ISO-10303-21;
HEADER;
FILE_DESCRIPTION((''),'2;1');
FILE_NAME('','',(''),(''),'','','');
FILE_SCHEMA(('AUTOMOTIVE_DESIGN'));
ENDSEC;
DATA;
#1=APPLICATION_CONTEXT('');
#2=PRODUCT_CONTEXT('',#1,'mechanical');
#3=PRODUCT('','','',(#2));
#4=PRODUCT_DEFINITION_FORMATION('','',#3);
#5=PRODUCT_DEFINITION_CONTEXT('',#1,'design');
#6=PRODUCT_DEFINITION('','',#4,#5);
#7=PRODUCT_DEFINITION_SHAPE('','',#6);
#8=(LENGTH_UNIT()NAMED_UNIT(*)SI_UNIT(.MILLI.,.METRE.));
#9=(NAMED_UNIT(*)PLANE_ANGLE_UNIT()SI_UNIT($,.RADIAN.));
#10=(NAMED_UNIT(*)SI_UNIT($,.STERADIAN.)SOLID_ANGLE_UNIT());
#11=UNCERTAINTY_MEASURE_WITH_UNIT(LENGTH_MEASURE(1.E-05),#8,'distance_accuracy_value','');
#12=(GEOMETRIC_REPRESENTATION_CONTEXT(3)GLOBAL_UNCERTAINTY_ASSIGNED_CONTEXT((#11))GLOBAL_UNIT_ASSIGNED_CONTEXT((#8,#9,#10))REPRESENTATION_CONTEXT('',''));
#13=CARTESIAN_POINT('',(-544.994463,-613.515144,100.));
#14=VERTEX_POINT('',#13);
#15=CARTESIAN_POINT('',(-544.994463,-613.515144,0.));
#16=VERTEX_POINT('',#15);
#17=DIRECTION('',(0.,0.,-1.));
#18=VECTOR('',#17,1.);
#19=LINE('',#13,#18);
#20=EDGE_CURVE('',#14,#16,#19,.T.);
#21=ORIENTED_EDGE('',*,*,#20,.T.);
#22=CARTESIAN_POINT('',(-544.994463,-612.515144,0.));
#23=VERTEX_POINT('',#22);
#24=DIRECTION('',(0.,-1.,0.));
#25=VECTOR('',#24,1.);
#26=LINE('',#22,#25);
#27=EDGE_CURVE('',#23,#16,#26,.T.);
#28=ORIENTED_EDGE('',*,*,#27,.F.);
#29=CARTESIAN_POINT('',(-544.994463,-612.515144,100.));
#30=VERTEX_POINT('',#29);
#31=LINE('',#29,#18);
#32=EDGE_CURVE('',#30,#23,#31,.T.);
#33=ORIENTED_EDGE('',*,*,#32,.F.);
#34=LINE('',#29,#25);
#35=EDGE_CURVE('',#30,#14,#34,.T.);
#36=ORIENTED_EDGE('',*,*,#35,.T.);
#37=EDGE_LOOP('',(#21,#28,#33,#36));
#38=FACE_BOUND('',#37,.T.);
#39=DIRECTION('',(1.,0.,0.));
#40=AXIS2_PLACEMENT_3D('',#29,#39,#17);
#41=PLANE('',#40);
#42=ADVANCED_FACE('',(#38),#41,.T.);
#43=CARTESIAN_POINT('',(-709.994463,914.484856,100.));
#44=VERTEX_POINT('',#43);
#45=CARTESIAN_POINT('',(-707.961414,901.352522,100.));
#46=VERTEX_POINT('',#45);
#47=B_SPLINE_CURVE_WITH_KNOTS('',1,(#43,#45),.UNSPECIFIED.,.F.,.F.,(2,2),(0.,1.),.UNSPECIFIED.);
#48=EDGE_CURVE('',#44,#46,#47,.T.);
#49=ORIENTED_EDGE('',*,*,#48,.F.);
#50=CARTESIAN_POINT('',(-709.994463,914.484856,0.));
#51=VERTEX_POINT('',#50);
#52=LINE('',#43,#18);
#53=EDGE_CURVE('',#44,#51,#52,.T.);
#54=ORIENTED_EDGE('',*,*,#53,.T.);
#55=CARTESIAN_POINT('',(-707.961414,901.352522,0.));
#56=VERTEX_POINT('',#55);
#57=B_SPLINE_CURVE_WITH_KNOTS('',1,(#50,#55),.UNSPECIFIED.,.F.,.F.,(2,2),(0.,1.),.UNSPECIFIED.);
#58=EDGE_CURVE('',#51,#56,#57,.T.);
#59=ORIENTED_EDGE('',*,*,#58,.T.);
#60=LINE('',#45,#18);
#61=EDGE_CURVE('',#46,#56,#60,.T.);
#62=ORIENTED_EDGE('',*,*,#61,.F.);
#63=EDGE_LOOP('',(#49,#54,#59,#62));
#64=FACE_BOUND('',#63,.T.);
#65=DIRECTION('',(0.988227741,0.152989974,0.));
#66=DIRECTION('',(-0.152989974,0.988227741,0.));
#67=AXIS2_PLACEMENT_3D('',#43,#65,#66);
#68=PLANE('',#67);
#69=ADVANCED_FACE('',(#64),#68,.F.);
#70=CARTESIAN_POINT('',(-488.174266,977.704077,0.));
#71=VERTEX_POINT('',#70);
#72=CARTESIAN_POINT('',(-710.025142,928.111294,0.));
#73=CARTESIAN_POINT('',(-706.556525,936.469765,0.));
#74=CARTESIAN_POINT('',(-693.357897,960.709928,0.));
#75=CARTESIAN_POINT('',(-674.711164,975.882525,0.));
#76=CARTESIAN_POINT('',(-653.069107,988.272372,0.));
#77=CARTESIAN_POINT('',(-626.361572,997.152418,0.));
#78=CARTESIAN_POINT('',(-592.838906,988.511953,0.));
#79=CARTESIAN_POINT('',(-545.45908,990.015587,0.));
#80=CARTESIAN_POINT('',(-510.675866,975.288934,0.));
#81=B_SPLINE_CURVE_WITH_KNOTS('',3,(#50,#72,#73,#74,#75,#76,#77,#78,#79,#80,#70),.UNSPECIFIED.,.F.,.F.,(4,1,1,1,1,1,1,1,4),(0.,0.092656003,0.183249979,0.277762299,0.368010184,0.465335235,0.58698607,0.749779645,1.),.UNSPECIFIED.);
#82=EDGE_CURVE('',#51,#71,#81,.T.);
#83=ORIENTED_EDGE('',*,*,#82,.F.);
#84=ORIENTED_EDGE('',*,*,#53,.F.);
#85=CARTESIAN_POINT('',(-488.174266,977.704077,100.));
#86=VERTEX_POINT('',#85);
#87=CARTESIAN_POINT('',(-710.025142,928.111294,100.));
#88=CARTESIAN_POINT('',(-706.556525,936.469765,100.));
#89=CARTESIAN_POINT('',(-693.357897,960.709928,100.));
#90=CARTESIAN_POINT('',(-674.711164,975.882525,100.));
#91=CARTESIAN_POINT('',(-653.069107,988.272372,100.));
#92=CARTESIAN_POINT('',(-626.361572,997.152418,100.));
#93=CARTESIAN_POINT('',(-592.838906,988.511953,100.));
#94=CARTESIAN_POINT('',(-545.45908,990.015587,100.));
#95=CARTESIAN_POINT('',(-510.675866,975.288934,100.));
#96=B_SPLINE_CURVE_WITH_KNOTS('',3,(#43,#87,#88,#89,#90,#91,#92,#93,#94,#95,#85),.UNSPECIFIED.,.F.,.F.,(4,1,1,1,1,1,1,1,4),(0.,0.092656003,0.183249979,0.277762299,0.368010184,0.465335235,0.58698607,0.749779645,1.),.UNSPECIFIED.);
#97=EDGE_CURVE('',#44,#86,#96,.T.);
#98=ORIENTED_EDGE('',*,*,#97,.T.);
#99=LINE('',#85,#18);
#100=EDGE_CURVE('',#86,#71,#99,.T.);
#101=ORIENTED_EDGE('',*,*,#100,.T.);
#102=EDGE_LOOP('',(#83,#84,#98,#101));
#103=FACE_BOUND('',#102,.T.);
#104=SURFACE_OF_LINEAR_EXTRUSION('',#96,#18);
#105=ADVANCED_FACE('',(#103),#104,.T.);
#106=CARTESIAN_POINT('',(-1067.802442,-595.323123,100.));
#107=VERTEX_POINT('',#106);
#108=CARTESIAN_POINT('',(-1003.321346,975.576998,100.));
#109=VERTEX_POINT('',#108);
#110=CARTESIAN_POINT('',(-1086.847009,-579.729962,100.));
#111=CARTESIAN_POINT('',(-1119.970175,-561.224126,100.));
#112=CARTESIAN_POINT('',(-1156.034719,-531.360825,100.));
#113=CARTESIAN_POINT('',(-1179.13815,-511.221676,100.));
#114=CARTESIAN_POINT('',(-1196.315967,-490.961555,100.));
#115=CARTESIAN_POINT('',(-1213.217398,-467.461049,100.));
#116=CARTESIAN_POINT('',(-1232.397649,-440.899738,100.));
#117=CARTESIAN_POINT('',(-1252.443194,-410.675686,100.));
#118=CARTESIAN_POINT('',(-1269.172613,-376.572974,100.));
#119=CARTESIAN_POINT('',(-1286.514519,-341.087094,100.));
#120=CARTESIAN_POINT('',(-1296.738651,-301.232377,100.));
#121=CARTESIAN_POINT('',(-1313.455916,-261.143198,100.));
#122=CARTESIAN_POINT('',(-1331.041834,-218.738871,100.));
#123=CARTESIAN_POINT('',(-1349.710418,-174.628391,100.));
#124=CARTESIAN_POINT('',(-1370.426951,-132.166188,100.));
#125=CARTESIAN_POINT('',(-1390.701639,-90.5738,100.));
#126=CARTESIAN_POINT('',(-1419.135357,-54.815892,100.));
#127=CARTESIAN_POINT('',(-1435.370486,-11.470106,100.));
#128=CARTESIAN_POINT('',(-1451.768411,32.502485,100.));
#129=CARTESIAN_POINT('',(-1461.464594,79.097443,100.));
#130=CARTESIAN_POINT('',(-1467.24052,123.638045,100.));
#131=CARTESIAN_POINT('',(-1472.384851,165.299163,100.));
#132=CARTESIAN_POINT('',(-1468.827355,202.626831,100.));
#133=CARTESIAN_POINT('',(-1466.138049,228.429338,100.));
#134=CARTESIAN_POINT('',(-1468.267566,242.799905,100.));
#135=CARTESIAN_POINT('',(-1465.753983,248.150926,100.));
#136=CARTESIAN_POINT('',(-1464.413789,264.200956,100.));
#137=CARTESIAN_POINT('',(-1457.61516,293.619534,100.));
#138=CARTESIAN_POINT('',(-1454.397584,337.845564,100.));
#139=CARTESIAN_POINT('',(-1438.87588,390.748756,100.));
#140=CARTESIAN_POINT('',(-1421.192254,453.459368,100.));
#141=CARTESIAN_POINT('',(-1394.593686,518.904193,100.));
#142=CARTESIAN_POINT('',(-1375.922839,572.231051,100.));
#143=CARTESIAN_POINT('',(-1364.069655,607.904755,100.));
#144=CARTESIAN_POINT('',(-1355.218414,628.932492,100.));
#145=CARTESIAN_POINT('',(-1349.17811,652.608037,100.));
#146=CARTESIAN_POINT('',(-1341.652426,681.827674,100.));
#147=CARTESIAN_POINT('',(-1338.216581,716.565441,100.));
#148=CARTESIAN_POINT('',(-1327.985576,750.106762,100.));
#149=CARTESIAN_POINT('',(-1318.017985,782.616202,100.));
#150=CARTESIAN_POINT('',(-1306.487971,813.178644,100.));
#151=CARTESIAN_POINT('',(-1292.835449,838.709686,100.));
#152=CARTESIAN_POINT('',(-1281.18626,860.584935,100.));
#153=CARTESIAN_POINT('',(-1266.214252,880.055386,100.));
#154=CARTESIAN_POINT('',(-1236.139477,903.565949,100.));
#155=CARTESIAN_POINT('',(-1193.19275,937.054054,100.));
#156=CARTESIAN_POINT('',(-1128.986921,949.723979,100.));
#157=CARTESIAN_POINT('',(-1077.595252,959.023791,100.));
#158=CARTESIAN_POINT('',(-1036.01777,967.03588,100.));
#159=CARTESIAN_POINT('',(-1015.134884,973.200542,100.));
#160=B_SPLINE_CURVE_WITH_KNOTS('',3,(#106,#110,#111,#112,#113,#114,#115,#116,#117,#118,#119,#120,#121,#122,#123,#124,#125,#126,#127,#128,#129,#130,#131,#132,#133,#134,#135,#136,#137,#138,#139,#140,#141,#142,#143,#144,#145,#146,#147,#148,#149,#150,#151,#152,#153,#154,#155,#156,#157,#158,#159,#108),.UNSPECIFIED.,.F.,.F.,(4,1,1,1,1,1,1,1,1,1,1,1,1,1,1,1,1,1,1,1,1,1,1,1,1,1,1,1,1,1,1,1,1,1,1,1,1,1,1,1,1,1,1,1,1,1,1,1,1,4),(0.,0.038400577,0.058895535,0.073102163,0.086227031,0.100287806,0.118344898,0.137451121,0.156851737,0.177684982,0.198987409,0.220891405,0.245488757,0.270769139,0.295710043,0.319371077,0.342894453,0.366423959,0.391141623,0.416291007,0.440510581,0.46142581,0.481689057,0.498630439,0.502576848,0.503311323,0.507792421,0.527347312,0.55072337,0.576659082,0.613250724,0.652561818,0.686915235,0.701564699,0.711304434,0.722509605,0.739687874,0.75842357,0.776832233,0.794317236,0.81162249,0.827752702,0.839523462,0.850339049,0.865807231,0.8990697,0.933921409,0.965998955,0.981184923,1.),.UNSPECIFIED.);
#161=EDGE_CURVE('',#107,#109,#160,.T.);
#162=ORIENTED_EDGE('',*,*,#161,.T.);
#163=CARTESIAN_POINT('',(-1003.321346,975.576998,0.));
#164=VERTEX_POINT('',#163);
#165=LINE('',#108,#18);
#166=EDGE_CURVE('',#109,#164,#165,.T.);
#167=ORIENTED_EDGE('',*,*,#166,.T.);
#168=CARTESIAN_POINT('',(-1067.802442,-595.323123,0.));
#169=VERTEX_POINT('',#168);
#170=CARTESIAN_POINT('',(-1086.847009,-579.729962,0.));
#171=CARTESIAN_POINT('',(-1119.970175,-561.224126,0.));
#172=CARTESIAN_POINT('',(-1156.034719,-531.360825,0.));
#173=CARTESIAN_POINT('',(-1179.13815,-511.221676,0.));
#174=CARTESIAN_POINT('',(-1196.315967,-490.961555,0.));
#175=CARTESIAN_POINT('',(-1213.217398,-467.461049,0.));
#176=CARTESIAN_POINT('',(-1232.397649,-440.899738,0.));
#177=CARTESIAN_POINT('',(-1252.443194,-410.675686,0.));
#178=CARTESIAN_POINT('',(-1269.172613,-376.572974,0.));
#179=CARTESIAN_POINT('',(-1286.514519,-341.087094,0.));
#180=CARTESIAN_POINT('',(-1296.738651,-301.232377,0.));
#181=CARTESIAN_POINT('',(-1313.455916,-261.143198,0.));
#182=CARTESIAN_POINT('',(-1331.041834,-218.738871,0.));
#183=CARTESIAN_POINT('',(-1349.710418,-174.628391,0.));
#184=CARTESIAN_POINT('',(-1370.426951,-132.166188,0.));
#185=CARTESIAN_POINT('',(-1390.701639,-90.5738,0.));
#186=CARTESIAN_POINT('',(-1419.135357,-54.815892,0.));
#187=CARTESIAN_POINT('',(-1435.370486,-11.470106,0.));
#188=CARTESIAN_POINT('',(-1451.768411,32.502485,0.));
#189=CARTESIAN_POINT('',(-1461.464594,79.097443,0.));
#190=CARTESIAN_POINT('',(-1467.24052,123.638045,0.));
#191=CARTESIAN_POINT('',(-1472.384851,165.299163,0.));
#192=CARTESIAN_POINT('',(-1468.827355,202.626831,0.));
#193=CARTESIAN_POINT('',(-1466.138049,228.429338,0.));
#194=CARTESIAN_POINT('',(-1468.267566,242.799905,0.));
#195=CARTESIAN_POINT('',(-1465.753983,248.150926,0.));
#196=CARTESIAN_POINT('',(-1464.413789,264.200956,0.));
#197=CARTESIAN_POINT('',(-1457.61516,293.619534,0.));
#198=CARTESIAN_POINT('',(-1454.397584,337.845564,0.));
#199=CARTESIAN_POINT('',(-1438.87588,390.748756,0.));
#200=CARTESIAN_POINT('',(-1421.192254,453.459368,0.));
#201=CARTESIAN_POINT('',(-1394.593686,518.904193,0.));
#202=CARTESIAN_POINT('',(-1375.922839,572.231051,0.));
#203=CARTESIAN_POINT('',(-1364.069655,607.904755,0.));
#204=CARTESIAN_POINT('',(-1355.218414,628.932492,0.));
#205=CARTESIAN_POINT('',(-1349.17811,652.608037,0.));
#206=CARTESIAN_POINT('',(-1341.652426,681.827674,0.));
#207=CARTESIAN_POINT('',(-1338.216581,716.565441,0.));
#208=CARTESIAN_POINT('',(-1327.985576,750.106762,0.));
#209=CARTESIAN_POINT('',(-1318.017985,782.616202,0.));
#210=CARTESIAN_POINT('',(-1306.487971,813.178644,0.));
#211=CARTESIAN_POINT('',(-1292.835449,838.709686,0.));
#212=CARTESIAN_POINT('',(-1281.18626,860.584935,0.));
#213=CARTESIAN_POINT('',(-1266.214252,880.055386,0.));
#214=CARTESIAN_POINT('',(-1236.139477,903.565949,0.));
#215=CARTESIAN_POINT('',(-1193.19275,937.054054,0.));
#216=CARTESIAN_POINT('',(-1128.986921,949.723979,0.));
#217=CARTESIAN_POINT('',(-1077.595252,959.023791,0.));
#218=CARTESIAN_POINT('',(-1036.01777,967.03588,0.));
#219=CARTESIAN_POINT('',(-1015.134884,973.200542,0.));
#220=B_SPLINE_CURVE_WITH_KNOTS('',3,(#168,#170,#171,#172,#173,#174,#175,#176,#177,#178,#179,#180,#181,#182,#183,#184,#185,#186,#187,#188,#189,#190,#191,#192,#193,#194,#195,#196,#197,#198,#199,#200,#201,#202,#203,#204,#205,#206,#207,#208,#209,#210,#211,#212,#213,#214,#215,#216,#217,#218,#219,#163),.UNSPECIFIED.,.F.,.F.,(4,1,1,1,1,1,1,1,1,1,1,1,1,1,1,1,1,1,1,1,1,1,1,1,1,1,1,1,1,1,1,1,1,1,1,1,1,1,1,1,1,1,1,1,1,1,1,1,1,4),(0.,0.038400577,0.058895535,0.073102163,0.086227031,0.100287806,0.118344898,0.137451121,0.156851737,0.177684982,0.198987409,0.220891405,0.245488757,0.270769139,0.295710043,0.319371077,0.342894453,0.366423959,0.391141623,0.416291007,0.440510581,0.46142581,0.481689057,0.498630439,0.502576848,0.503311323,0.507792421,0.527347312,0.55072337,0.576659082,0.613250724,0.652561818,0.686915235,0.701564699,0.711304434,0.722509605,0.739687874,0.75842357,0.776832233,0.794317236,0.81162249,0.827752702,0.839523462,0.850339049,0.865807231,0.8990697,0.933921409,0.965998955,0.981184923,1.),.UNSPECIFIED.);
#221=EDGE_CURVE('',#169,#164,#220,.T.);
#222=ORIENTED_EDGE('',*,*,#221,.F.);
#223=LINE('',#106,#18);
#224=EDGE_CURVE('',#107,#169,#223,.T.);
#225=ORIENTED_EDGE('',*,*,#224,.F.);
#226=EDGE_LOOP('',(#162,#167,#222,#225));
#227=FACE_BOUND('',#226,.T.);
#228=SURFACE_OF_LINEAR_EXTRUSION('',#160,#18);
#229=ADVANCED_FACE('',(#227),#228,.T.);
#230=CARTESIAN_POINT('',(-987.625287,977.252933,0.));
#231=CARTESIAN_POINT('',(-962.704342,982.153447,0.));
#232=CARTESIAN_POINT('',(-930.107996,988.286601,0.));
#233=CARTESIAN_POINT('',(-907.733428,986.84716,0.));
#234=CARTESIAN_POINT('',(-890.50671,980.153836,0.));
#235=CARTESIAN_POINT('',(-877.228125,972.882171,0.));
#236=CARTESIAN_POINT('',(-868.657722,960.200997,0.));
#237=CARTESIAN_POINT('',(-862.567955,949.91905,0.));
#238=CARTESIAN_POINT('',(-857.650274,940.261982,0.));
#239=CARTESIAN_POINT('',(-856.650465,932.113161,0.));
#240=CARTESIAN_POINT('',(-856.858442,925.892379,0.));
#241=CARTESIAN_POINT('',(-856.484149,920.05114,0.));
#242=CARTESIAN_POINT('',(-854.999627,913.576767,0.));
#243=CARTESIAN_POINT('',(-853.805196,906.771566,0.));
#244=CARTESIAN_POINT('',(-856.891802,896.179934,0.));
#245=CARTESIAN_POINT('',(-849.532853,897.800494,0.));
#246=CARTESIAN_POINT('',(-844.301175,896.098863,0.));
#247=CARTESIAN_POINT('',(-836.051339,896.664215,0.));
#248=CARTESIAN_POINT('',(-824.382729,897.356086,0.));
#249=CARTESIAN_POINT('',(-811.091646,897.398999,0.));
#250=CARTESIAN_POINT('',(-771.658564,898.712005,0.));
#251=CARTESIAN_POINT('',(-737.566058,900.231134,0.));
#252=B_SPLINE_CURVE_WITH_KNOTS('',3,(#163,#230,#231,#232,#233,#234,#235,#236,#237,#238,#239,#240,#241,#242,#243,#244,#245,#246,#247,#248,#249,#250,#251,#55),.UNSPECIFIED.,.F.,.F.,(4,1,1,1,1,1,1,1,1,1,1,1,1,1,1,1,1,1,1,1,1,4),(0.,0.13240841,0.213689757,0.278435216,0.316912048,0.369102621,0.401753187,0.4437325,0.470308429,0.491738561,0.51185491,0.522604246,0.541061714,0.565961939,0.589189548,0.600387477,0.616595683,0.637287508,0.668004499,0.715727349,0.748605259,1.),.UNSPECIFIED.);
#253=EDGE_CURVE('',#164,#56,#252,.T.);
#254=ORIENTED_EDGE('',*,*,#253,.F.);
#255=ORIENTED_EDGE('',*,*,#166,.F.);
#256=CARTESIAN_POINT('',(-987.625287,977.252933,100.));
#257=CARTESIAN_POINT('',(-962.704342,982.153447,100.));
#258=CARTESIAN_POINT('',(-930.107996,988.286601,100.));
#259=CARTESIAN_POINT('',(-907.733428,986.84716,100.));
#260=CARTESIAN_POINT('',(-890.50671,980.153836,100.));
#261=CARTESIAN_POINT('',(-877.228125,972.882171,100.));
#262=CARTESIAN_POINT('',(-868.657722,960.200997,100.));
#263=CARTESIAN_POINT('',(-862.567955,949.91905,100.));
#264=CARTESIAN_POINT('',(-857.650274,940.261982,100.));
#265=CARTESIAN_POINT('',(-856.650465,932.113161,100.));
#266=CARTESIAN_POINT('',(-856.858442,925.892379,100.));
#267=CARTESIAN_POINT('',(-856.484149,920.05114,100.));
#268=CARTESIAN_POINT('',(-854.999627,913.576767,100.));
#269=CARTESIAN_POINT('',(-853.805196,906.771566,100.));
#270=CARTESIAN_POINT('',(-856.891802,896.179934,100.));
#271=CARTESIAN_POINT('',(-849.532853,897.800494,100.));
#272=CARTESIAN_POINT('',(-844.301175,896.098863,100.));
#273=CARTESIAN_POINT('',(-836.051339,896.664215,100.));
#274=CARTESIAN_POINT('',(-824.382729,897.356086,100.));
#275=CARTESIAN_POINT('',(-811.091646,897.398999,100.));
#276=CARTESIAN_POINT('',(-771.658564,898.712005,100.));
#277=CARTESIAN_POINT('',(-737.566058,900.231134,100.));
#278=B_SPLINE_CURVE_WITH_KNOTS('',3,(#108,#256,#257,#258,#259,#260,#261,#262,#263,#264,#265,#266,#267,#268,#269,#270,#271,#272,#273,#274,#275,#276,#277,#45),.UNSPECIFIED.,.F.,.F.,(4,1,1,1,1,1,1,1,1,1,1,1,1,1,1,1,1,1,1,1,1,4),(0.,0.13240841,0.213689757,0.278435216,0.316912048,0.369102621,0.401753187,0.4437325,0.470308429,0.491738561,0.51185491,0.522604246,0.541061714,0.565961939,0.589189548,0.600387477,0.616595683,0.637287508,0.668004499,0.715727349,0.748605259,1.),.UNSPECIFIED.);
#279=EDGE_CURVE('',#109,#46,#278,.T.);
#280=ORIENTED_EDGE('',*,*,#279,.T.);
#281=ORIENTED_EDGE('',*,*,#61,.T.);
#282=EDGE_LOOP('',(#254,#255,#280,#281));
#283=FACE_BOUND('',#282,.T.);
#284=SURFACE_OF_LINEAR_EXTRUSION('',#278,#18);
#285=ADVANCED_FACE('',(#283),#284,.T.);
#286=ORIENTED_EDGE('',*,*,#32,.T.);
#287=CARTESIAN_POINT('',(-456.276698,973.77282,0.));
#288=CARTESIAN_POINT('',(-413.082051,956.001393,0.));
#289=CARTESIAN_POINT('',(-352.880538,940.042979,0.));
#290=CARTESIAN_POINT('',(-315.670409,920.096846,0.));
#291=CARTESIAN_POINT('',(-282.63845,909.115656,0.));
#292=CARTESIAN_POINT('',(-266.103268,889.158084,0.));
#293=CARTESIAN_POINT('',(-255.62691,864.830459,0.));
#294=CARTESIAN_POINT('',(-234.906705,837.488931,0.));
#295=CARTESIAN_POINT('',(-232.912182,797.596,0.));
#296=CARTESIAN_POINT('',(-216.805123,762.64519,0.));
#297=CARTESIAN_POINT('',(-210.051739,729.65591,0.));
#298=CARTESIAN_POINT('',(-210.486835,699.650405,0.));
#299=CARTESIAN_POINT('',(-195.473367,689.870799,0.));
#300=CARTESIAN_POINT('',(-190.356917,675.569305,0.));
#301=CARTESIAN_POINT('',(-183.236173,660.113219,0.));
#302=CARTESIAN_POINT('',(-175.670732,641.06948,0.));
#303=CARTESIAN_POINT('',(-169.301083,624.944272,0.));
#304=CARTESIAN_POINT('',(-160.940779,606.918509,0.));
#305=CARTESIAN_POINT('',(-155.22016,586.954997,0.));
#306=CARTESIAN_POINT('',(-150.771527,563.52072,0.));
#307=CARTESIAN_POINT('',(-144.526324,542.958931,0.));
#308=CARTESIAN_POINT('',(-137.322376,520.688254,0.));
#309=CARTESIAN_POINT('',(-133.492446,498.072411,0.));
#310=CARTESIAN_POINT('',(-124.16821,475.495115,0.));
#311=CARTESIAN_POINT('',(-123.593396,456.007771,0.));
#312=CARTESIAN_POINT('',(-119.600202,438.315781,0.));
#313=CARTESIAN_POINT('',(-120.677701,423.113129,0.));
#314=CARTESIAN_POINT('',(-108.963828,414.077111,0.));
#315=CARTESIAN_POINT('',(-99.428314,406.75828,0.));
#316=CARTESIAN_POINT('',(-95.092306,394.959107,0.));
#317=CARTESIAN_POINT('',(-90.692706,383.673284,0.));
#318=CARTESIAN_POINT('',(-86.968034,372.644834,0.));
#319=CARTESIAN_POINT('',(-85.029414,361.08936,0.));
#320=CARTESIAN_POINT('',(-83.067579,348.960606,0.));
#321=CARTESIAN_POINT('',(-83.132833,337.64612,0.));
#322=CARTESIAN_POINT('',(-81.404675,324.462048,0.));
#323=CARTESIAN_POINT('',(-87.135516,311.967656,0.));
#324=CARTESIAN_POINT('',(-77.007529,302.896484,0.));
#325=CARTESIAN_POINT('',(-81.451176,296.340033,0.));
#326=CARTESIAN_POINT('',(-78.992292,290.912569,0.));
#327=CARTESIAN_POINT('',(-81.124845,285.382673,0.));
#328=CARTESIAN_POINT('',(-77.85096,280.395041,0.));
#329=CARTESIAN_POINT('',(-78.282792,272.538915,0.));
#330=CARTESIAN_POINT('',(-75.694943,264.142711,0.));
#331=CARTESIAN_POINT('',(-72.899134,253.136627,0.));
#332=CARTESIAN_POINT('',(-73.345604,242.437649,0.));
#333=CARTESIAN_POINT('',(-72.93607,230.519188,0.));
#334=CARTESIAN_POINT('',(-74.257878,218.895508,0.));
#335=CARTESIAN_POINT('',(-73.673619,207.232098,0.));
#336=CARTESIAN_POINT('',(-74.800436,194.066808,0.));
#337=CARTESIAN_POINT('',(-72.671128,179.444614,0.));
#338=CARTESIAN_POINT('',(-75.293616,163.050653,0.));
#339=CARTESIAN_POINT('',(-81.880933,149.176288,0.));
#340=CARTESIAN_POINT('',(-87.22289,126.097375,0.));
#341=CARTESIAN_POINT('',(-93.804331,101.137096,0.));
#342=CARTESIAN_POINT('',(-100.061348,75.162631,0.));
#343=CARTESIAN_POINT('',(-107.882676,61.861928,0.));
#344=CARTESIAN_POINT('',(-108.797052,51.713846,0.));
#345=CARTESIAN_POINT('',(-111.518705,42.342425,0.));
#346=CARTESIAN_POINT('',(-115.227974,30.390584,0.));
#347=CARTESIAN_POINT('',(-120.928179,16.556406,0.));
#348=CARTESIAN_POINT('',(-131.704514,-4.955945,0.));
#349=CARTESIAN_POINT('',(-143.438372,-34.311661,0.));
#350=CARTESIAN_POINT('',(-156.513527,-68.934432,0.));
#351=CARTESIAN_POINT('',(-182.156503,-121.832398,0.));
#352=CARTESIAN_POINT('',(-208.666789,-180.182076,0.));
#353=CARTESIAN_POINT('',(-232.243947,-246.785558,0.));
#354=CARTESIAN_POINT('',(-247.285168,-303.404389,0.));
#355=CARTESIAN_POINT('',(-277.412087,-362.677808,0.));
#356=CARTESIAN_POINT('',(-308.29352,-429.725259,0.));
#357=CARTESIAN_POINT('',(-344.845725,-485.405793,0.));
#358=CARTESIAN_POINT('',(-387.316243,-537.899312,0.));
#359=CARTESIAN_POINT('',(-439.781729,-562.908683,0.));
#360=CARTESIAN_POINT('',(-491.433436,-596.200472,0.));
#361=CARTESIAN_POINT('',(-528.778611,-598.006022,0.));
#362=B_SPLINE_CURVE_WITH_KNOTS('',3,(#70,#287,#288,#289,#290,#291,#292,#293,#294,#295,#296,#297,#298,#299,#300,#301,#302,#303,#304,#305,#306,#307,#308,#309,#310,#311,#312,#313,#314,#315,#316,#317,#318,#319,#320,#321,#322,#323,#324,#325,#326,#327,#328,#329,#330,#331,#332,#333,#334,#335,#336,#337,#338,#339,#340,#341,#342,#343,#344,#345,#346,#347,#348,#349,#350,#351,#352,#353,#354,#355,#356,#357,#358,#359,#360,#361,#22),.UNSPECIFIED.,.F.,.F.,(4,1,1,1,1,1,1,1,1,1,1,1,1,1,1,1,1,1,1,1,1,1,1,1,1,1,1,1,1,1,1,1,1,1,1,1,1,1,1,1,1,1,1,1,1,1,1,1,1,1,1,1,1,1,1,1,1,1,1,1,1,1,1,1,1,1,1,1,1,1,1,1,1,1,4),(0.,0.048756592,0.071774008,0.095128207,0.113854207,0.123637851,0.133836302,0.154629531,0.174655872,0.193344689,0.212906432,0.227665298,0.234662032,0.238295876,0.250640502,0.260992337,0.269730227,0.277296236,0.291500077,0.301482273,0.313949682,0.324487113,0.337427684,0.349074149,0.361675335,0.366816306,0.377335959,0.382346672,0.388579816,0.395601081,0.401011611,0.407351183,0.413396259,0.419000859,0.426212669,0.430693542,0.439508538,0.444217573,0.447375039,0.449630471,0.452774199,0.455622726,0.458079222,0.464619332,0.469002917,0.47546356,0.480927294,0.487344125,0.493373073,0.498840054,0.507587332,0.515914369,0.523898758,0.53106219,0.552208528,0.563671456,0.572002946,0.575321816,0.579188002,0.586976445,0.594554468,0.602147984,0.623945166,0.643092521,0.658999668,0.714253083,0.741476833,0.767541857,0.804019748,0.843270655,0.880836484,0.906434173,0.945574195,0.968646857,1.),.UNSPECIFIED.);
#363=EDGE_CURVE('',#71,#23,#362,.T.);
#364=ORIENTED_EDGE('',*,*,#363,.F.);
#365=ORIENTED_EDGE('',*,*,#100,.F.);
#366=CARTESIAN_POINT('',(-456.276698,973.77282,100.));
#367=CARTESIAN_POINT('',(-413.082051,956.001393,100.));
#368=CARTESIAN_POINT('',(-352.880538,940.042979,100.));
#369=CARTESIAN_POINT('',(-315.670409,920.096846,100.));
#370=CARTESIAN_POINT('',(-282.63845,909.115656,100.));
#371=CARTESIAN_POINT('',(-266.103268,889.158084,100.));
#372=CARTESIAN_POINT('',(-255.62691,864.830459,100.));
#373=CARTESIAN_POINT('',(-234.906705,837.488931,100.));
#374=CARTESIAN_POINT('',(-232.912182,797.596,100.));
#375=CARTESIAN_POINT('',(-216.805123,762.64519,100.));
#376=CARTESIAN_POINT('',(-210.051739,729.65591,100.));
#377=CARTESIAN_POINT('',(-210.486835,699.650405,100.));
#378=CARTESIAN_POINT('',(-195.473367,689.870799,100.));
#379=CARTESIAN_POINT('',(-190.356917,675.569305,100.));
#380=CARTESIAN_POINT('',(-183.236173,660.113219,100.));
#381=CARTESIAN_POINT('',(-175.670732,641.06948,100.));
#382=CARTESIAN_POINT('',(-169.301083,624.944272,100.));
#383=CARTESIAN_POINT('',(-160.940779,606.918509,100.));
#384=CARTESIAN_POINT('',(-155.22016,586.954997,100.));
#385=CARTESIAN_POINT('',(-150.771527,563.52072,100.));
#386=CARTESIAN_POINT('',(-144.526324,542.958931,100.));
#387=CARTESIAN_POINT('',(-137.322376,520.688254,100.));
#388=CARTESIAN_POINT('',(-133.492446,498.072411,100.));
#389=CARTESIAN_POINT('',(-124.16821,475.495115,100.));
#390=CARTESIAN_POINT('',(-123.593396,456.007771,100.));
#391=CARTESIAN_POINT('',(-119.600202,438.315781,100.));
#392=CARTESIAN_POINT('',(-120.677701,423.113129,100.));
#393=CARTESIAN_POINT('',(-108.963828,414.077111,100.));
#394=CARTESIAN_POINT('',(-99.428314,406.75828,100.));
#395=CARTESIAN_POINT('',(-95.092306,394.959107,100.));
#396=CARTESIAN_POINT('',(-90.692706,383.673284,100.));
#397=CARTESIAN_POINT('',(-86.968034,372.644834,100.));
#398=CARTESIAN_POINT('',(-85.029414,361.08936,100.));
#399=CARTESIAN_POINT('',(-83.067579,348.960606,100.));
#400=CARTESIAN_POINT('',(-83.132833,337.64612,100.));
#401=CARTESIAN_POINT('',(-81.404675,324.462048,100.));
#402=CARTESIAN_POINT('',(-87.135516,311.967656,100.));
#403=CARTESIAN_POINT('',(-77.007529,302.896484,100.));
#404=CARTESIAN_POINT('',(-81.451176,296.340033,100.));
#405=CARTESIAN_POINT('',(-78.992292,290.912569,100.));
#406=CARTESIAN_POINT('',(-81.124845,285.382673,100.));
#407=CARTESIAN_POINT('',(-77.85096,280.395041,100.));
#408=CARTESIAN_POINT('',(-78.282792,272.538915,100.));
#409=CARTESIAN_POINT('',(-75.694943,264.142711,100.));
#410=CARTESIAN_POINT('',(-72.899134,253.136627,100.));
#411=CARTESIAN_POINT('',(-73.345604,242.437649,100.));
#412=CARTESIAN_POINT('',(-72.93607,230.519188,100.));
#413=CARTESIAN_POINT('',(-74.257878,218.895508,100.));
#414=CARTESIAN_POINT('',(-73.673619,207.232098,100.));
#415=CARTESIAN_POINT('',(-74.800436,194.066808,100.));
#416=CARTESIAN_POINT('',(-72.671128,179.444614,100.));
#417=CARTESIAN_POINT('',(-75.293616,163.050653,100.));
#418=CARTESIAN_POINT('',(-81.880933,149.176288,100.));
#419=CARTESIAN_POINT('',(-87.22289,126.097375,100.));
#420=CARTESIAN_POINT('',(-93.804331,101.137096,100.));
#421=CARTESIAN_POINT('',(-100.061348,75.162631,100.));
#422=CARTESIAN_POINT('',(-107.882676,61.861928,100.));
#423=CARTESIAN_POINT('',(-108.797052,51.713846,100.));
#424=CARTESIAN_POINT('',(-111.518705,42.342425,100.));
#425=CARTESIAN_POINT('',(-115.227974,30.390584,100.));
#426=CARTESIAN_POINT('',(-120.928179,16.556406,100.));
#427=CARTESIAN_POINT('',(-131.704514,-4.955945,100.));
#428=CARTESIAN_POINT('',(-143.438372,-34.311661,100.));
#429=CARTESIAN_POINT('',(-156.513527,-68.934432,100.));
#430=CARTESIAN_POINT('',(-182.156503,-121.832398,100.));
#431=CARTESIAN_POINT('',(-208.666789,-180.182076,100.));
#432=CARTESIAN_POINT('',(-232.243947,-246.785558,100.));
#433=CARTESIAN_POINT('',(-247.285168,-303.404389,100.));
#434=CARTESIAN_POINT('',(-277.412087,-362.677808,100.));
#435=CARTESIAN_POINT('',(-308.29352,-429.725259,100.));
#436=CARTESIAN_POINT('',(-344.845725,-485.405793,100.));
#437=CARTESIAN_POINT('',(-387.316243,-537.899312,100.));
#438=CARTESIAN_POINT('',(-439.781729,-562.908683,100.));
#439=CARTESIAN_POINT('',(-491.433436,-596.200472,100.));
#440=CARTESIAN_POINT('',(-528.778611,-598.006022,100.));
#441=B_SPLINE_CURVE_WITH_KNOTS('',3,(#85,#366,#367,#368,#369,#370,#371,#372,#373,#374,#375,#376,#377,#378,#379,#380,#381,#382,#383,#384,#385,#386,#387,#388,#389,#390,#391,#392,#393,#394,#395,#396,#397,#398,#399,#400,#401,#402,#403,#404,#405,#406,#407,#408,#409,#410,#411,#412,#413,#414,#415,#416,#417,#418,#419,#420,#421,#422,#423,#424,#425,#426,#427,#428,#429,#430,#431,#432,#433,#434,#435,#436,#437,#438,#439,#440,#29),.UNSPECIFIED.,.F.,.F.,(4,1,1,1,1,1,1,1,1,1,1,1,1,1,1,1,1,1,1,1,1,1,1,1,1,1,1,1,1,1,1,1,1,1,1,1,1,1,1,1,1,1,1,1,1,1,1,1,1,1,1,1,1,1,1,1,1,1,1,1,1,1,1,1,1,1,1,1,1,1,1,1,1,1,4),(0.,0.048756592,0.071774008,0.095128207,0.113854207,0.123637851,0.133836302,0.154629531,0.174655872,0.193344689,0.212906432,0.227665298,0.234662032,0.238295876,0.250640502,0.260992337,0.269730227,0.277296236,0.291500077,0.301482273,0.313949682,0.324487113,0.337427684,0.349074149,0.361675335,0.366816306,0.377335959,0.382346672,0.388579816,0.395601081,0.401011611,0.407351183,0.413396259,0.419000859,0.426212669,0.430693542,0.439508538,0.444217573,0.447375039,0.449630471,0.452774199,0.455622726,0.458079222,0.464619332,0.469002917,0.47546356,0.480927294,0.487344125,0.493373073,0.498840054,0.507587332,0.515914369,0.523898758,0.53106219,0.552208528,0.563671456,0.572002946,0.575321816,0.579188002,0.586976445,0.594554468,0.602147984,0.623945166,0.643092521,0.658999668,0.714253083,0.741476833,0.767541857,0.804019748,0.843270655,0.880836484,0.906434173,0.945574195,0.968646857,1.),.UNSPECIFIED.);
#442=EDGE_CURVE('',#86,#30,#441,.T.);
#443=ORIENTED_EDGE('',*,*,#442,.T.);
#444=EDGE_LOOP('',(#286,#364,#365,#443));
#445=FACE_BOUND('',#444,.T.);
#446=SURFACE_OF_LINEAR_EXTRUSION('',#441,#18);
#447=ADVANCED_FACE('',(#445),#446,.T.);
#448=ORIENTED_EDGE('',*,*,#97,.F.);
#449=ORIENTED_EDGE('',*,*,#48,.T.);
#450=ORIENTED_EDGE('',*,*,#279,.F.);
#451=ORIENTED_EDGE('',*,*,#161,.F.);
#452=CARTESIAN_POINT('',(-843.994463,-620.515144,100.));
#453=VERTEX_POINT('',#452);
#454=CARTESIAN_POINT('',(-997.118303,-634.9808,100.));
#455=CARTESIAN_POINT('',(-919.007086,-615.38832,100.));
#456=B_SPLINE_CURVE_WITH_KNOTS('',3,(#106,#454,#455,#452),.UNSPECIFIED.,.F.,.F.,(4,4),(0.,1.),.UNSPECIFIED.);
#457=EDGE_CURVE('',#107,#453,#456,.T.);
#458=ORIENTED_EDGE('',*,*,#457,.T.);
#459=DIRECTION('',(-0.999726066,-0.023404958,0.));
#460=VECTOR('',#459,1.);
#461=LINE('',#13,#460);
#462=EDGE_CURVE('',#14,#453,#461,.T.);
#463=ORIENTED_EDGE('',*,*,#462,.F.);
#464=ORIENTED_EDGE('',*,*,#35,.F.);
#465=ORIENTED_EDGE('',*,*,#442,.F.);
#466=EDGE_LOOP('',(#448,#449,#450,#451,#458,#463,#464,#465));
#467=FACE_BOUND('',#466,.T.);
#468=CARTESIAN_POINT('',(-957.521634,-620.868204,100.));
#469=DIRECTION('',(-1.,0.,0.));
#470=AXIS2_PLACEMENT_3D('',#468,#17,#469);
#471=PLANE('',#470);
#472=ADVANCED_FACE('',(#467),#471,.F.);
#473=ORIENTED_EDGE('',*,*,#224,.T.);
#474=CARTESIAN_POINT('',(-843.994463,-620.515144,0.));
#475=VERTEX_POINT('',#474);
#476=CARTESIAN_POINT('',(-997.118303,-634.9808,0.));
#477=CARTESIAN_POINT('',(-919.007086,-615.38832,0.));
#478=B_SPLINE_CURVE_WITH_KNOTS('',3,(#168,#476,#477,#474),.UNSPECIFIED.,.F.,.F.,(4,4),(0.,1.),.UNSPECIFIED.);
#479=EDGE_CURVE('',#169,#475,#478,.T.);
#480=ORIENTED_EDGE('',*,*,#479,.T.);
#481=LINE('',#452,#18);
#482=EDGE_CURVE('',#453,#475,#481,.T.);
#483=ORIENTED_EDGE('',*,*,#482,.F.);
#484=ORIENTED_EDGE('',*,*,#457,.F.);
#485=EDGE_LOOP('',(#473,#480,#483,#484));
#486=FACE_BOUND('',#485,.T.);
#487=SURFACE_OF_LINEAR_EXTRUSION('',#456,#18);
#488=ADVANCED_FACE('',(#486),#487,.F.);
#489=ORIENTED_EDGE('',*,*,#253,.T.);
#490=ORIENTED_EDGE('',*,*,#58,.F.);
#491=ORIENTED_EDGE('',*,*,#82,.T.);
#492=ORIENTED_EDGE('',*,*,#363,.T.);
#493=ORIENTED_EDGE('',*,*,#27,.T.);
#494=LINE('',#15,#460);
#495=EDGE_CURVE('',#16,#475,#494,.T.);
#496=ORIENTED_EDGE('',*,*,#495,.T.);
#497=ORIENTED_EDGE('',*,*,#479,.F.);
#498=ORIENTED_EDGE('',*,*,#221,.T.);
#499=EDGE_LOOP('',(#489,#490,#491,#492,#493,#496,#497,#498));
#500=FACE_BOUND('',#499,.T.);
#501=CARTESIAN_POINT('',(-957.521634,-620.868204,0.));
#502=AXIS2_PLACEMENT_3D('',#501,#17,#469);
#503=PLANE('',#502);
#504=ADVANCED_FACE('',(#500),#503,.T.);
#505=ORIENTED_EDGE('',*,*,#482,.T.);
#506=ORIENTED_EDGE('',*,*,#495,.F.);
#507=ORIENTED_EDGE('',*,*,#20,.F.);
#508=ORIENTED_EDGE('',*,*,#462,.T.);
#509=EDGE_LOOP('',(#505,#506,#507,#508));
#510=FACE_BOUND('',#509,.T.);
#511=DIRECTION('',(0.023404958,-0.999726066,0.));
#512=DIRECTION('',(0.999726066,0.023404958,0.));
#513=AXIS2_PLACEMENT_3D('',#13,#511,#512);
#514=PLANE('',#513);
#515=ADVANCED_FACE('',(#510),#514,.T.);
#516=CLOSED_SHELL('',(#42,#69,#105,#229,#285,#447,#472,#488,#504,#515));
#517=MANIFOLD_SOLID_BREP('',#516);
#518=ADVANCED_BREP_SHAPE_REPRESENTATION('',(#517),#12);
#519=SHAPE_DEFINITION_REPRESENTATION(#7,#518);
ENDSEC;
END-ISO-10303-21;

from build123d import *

# Parameters (mm, degrees)
BOSS_EXTRUDE1_DEPTH = 100


with BuildPart() as part:
    # faceplate → Boss-Extrude1 (new body)
    with BuildSketch(Plane.XY):
        with BuildLine():
            Line((-544.994463337, -612.515143976), (-544.994463337, -613.515143976))
            Line((-544.994463337, -613.515143976), (-843.994463337, -620.515143976))
            add(Edge.make_bspline(
                [(-1067.80244218, -595.323122819), (-997.118302993, -634.980800497), (-919.007086082, -615.388320094), (-843.994463337, -620.515143976)],
                knots=[0, 0, 0, 0, 1, 1, 1, 1], degree=3))
            add(Edge.make_bspline(
                [(-1067.80244218, -595.323122819), (-1086.847009226, -579.729961904), (-1119.970174816, -561.224126278), (-1156.034719167, -531.360825002), (-1179.138150383, -511.221675605), (-1196.315966942, -490.961554628), (-1213.217398231, -467.461049471), (-1232.397649452, -440.899738497), (-1252.443193652, -410.675686141), (-1269.172612691, -376.572973765), (-1286.514519484, -341.087093501), (-1296.738650953, -301.232376709), (-1313.455916177, -261.143197942), (-1331.041833976, -218.738871303), (-1349.710417714, -174.628391124), (-1370.426950686, -132.166188439), (-1390.701638967, -90.573799688), (-1419.135356979, -54.815891576), (-1435.370486427, -11.470106108), (-1451.768411171, 32.502484745), (-1461.464593921, 79.097443036), (-1467.240520327, 123.638045122), (-1472.384850807, 165.299163162), (-1468.827354686, 202.626831232), (-1466.138049197, 228.429338434), (-1468.2675659, 242.799904931), (-1465.753983266, 248.150925961), (-1464.413789059, 264.200956181), (-1457.615160207, 293.619534204), (-1454.39758417, 337.845564286), (-1438.875880143, 390.748756206), (-1421.192254415, 453.45936783), (-1394.593685546, 518.904193396), (-1375.922839318, 572.231050768), (-1364.069654655, 607.904754904), (-1355.21841365, 628.932491538), (-1349.178109577, 652.608037387), (-1341.652426333, 681.82767433), (-1338.216580607, 716.565441158), (-1327.985576082, 750.106761733), (-1318.017985391, 782.616202465), (-1306.487970813, 813.178643601), (-1292.835449403, 838.709685584), (-1281.186260324, 860.58493493), (-1266.214251902, 880.055386428), (-1236.139476743, 903.56594924), (-1193.192750352, 937.054053735), (-1128.986921291, 949.723978925), (-1077.595251561, 959.023790995), (-1036.017770222, 967.035879578), (-1015.134884478, 973.200541716), (-1003.321346267, 975.57699758)],
                knots=[0, 0, 0, 0, 0.038400577, 0.058895535, 0.073102163, 0.086227031, 0.100287806, 0.118344898, 0.137451121, 0.156851737, 0.177684982, 0.198987409, 0.220891405, 0.245488757, 0.270769139, 0.295710043, 0.319371077, 0.342894453, 0.366423959, 0.391141623, 0.416291007, 0.440510581, 0.46142581, 0.481689057, 0.498630439, 0.502576848, 0.503311323, 0.507792421, 0.527347312, 0.55072337, 0.576659082, 0.613250724, 0.652561818, 0.686915235, 0.701564699, 0.711304434, 0.722509605, 0.739687874, 0.75842357, 0.776832233, 0.794317236, 0.81162249, 0.827752702, 0.839523462, 0.850339049, 0.865807231, 0.8990697, 0.933921409, 0.965998955, 0.981184923, 1, 1, 1, 1], degree=3))
            add(Edge.make_bspline(
                [(-1003.321346267, 975.57699758), (-987.625286887, 977.252933347), (-962.704341777, 982.153446744), (-930.107996089, 988.286600947), (-907.73342782, 986.847160199), (-890.506709849, 980.153836056), (-877.228125332, 972.882171329), (-868.657722365, 960.200996549), (-862.567954839, 949.919049802), (-857.650273693, 940.261982009), (-856.6504648, 932.113160778), (-856.858442051, 925.892378776), (-856.484148597, 920.051139945), (-854.99962702, 913.576766741), (-853.805195867, 906.771565928), (-856.891801948, 896.179933995), (-849.532852724, 897.800494321), (-844.301174531, 896.09886282), (-836.051338893, 896.664214645), (-824.3827293, 897.356086054), (-811.091645754, 897.398998525), (-771.65856362, 898.71200455), (-737.566058229, 900.231134168), (-707.961414353, 901.352522194)],
                knots=[0, 0, 0, 0, 0.13240841, 0.213689757, 0.278435216, 0.316912048, 0.369102621, 0.401753187, 0.4437325, 0.470308429, 0.491738561, 0.51185491, 0.522604246, 0.541061714, 0.565961939, 0.589189548, 0.600387477, 0.616595683, 0.637287508, 0.668004499, 0.715727349, 0.748605259, 1, 1, 1, 1], degree=3))
            Line((-707.961414353, 901.352522194), (-709.994463337, 914.484856024))
            add(Edge.make_bspline(
                [(-709.994463337, 914.484856024), (-710.025141677, 928.111294219), (-706.556524679, 936.469765177), (-693.357896775, 960.709928189), (-674.711163852, 975.882524791), (-653.069107275, 988.272371826), (-626.361572185, 997.152418106), (-592.838906392, 988.511952991), (-545.459079884, 990.015587365), (-510.6758664, 975.288933631), (-488.174265844, 977.704076621)],
                knots=[0, 0, 0, 0, 0.092656003, 0.183249979, 0.277762299, 0.368010184, 0.465335235, 0.58698607, 0.749779645, 1, 1, 1, 1], degree=3))
            add(Edge.make_bspline(
                [(-488.174265844, 977.704076621), (-456.276698424, 973.772819568), (-413.082050902, 956.00139334), (-352.880537776, 940.042979017), (-315.670408772, 920.096845698), (-282.638450263, 909.115656445), (-266.103267679, 889.15808379), (-255.626909848, 864.830458522), (-234.906704646, 837.488931338), (-232.912182322, 797.596000168), (-216.805122627, 762.645190054), (-210.051739344, 729.655910292), (-210.486834721, 699.650404741), (-195.47336716, 689.870798641), (-190.356917308, 675.569305079), (-183.236172501, 660.113219275), (-175.670732081, 641.069479697), (-169.301082892, 624.944272331), (-160.940778667, 606.918509189), (-155.220160251, 586.954996915), (-150.771527302, 563.520719903), (-144.526324466, 542.958930792), (-137.322376345, 520.688253705), (-133.49244601, 498.072411215), (-124.168210293, 475.495115448), (-123.593395619, 456.007770617), (-119.600202312, 438.315780586), (-120.677701477, 423.113128801), (-108.963827659, 414.077110512), (-99.428314275, 406.758279523), (-95.092306104, 394.959107279), (-90.692706124, 383.673283845), (-86.96803427, 372.644834332), (-85.029413703, 361.089359505), (-83.067579223, 348.960606193), (-83.132833363, 337.646119686), (-81.40467488, 324.462048367), (-87.135516072, 311.967656037), (-77.007528945, 302.896484143), (-81.451175559, 296.340032763), (-78.992292255, 290.912569241), (-81.124845036, 285.38267309), (-77.850959558, 280.39504072), (-78.282792033, 272.538915116), (-75.694943087, 264.142711363), (-72.899133528, 253.136627469), (-73.345603979, 242.437648975), (-72.936069744, 230.51918813), (-74.257877633, 218.89550788), (-73.673619291, 207.232098077), (-74.800435642, 194.066808289), (-72.671127502, 179.444613631), (-75.293615575, 163.050653013), (-81.880933058, 149.176288447), (-87.222890375, 126.097374785), (-93.804330664, 101.137095727), (-100.061347869, 75.162630822), (-107.882675618, 61.861927769), (-108.797051733, 51.713845954), (-111.518705333, 42.34242457), (-115.227974273, 30.390584041), (-120.928179416, 16.556405837), (-131.70451367, -4.955944936), (-143.438372488, -34.31166144), (-156.513526554, -68.934431811), (-182.156502861, -121.832398253), (-208.666788719, -180.182076414), (-232.243947306, -246.785558045), (-247.285167827, -303.404388878), (-277.412086588, -362.677807945), (-308.293520213, -429.725258746), (-344.845724502, -485.405793139), (-387.316242531, -537.8993116), (-439.781729376, -562.908683045), (-491.433435635, -596.200471512), (-528.778610805, -598.006021791), (-544.994463337, -612.515143976)],
                knots=[0, 0, 0, 0, 0.048756592, 0.071774008, 0.095128207, 0.113854207, 0.123637851, 0.133836302, 0.154629531, 0.174655872, 0.193344689, 0.212906432, 0.227665298, 0.234662032, 0.238295876, 0.250640502, 0.260992337, 0.269730227, 0.277296236, 0.291500077, 0.301482273, 0.313949682, 0.324487113, 0.337427684, 0.349074149, 0.361675335, 0.366816306, 0.377335959, 0.382346672, 0.388579816, 0.395601081, 0.401011611, 0.407351183, 0.413396259, 0.419000859, 0.426212669, 0.430693542, 0.439508538, 0.444217573, 0.447375039, 0.449630471, 0.452774199, 0.455622726, 0.458079222, 0.464619332, 0.469002917, 0.47546356, 0.480927294, 0.487344125, 0.493373073, 0.498840054, 0.507587332, 0.515914369, 0.523898758, 0.53106219, 0.552208528, 0.563671456, 0.572002946, 0.575321816, 0.579188002, 0.586976445, 0.594554468, 0.602147984, 0.623945166, 0.643092521, 0.658999668, 0.714253083, 0.741476833, 0.767541857, 0.804019748, 0.843270655, 0.880836484, 0.906434173, 0.945574195, 0.968646857, 1, 1, 1, 1], degree=3))
        make_face()
    extrude(amount=BOSS_EXTRUDE1_DEPTH)


solid = part.part
